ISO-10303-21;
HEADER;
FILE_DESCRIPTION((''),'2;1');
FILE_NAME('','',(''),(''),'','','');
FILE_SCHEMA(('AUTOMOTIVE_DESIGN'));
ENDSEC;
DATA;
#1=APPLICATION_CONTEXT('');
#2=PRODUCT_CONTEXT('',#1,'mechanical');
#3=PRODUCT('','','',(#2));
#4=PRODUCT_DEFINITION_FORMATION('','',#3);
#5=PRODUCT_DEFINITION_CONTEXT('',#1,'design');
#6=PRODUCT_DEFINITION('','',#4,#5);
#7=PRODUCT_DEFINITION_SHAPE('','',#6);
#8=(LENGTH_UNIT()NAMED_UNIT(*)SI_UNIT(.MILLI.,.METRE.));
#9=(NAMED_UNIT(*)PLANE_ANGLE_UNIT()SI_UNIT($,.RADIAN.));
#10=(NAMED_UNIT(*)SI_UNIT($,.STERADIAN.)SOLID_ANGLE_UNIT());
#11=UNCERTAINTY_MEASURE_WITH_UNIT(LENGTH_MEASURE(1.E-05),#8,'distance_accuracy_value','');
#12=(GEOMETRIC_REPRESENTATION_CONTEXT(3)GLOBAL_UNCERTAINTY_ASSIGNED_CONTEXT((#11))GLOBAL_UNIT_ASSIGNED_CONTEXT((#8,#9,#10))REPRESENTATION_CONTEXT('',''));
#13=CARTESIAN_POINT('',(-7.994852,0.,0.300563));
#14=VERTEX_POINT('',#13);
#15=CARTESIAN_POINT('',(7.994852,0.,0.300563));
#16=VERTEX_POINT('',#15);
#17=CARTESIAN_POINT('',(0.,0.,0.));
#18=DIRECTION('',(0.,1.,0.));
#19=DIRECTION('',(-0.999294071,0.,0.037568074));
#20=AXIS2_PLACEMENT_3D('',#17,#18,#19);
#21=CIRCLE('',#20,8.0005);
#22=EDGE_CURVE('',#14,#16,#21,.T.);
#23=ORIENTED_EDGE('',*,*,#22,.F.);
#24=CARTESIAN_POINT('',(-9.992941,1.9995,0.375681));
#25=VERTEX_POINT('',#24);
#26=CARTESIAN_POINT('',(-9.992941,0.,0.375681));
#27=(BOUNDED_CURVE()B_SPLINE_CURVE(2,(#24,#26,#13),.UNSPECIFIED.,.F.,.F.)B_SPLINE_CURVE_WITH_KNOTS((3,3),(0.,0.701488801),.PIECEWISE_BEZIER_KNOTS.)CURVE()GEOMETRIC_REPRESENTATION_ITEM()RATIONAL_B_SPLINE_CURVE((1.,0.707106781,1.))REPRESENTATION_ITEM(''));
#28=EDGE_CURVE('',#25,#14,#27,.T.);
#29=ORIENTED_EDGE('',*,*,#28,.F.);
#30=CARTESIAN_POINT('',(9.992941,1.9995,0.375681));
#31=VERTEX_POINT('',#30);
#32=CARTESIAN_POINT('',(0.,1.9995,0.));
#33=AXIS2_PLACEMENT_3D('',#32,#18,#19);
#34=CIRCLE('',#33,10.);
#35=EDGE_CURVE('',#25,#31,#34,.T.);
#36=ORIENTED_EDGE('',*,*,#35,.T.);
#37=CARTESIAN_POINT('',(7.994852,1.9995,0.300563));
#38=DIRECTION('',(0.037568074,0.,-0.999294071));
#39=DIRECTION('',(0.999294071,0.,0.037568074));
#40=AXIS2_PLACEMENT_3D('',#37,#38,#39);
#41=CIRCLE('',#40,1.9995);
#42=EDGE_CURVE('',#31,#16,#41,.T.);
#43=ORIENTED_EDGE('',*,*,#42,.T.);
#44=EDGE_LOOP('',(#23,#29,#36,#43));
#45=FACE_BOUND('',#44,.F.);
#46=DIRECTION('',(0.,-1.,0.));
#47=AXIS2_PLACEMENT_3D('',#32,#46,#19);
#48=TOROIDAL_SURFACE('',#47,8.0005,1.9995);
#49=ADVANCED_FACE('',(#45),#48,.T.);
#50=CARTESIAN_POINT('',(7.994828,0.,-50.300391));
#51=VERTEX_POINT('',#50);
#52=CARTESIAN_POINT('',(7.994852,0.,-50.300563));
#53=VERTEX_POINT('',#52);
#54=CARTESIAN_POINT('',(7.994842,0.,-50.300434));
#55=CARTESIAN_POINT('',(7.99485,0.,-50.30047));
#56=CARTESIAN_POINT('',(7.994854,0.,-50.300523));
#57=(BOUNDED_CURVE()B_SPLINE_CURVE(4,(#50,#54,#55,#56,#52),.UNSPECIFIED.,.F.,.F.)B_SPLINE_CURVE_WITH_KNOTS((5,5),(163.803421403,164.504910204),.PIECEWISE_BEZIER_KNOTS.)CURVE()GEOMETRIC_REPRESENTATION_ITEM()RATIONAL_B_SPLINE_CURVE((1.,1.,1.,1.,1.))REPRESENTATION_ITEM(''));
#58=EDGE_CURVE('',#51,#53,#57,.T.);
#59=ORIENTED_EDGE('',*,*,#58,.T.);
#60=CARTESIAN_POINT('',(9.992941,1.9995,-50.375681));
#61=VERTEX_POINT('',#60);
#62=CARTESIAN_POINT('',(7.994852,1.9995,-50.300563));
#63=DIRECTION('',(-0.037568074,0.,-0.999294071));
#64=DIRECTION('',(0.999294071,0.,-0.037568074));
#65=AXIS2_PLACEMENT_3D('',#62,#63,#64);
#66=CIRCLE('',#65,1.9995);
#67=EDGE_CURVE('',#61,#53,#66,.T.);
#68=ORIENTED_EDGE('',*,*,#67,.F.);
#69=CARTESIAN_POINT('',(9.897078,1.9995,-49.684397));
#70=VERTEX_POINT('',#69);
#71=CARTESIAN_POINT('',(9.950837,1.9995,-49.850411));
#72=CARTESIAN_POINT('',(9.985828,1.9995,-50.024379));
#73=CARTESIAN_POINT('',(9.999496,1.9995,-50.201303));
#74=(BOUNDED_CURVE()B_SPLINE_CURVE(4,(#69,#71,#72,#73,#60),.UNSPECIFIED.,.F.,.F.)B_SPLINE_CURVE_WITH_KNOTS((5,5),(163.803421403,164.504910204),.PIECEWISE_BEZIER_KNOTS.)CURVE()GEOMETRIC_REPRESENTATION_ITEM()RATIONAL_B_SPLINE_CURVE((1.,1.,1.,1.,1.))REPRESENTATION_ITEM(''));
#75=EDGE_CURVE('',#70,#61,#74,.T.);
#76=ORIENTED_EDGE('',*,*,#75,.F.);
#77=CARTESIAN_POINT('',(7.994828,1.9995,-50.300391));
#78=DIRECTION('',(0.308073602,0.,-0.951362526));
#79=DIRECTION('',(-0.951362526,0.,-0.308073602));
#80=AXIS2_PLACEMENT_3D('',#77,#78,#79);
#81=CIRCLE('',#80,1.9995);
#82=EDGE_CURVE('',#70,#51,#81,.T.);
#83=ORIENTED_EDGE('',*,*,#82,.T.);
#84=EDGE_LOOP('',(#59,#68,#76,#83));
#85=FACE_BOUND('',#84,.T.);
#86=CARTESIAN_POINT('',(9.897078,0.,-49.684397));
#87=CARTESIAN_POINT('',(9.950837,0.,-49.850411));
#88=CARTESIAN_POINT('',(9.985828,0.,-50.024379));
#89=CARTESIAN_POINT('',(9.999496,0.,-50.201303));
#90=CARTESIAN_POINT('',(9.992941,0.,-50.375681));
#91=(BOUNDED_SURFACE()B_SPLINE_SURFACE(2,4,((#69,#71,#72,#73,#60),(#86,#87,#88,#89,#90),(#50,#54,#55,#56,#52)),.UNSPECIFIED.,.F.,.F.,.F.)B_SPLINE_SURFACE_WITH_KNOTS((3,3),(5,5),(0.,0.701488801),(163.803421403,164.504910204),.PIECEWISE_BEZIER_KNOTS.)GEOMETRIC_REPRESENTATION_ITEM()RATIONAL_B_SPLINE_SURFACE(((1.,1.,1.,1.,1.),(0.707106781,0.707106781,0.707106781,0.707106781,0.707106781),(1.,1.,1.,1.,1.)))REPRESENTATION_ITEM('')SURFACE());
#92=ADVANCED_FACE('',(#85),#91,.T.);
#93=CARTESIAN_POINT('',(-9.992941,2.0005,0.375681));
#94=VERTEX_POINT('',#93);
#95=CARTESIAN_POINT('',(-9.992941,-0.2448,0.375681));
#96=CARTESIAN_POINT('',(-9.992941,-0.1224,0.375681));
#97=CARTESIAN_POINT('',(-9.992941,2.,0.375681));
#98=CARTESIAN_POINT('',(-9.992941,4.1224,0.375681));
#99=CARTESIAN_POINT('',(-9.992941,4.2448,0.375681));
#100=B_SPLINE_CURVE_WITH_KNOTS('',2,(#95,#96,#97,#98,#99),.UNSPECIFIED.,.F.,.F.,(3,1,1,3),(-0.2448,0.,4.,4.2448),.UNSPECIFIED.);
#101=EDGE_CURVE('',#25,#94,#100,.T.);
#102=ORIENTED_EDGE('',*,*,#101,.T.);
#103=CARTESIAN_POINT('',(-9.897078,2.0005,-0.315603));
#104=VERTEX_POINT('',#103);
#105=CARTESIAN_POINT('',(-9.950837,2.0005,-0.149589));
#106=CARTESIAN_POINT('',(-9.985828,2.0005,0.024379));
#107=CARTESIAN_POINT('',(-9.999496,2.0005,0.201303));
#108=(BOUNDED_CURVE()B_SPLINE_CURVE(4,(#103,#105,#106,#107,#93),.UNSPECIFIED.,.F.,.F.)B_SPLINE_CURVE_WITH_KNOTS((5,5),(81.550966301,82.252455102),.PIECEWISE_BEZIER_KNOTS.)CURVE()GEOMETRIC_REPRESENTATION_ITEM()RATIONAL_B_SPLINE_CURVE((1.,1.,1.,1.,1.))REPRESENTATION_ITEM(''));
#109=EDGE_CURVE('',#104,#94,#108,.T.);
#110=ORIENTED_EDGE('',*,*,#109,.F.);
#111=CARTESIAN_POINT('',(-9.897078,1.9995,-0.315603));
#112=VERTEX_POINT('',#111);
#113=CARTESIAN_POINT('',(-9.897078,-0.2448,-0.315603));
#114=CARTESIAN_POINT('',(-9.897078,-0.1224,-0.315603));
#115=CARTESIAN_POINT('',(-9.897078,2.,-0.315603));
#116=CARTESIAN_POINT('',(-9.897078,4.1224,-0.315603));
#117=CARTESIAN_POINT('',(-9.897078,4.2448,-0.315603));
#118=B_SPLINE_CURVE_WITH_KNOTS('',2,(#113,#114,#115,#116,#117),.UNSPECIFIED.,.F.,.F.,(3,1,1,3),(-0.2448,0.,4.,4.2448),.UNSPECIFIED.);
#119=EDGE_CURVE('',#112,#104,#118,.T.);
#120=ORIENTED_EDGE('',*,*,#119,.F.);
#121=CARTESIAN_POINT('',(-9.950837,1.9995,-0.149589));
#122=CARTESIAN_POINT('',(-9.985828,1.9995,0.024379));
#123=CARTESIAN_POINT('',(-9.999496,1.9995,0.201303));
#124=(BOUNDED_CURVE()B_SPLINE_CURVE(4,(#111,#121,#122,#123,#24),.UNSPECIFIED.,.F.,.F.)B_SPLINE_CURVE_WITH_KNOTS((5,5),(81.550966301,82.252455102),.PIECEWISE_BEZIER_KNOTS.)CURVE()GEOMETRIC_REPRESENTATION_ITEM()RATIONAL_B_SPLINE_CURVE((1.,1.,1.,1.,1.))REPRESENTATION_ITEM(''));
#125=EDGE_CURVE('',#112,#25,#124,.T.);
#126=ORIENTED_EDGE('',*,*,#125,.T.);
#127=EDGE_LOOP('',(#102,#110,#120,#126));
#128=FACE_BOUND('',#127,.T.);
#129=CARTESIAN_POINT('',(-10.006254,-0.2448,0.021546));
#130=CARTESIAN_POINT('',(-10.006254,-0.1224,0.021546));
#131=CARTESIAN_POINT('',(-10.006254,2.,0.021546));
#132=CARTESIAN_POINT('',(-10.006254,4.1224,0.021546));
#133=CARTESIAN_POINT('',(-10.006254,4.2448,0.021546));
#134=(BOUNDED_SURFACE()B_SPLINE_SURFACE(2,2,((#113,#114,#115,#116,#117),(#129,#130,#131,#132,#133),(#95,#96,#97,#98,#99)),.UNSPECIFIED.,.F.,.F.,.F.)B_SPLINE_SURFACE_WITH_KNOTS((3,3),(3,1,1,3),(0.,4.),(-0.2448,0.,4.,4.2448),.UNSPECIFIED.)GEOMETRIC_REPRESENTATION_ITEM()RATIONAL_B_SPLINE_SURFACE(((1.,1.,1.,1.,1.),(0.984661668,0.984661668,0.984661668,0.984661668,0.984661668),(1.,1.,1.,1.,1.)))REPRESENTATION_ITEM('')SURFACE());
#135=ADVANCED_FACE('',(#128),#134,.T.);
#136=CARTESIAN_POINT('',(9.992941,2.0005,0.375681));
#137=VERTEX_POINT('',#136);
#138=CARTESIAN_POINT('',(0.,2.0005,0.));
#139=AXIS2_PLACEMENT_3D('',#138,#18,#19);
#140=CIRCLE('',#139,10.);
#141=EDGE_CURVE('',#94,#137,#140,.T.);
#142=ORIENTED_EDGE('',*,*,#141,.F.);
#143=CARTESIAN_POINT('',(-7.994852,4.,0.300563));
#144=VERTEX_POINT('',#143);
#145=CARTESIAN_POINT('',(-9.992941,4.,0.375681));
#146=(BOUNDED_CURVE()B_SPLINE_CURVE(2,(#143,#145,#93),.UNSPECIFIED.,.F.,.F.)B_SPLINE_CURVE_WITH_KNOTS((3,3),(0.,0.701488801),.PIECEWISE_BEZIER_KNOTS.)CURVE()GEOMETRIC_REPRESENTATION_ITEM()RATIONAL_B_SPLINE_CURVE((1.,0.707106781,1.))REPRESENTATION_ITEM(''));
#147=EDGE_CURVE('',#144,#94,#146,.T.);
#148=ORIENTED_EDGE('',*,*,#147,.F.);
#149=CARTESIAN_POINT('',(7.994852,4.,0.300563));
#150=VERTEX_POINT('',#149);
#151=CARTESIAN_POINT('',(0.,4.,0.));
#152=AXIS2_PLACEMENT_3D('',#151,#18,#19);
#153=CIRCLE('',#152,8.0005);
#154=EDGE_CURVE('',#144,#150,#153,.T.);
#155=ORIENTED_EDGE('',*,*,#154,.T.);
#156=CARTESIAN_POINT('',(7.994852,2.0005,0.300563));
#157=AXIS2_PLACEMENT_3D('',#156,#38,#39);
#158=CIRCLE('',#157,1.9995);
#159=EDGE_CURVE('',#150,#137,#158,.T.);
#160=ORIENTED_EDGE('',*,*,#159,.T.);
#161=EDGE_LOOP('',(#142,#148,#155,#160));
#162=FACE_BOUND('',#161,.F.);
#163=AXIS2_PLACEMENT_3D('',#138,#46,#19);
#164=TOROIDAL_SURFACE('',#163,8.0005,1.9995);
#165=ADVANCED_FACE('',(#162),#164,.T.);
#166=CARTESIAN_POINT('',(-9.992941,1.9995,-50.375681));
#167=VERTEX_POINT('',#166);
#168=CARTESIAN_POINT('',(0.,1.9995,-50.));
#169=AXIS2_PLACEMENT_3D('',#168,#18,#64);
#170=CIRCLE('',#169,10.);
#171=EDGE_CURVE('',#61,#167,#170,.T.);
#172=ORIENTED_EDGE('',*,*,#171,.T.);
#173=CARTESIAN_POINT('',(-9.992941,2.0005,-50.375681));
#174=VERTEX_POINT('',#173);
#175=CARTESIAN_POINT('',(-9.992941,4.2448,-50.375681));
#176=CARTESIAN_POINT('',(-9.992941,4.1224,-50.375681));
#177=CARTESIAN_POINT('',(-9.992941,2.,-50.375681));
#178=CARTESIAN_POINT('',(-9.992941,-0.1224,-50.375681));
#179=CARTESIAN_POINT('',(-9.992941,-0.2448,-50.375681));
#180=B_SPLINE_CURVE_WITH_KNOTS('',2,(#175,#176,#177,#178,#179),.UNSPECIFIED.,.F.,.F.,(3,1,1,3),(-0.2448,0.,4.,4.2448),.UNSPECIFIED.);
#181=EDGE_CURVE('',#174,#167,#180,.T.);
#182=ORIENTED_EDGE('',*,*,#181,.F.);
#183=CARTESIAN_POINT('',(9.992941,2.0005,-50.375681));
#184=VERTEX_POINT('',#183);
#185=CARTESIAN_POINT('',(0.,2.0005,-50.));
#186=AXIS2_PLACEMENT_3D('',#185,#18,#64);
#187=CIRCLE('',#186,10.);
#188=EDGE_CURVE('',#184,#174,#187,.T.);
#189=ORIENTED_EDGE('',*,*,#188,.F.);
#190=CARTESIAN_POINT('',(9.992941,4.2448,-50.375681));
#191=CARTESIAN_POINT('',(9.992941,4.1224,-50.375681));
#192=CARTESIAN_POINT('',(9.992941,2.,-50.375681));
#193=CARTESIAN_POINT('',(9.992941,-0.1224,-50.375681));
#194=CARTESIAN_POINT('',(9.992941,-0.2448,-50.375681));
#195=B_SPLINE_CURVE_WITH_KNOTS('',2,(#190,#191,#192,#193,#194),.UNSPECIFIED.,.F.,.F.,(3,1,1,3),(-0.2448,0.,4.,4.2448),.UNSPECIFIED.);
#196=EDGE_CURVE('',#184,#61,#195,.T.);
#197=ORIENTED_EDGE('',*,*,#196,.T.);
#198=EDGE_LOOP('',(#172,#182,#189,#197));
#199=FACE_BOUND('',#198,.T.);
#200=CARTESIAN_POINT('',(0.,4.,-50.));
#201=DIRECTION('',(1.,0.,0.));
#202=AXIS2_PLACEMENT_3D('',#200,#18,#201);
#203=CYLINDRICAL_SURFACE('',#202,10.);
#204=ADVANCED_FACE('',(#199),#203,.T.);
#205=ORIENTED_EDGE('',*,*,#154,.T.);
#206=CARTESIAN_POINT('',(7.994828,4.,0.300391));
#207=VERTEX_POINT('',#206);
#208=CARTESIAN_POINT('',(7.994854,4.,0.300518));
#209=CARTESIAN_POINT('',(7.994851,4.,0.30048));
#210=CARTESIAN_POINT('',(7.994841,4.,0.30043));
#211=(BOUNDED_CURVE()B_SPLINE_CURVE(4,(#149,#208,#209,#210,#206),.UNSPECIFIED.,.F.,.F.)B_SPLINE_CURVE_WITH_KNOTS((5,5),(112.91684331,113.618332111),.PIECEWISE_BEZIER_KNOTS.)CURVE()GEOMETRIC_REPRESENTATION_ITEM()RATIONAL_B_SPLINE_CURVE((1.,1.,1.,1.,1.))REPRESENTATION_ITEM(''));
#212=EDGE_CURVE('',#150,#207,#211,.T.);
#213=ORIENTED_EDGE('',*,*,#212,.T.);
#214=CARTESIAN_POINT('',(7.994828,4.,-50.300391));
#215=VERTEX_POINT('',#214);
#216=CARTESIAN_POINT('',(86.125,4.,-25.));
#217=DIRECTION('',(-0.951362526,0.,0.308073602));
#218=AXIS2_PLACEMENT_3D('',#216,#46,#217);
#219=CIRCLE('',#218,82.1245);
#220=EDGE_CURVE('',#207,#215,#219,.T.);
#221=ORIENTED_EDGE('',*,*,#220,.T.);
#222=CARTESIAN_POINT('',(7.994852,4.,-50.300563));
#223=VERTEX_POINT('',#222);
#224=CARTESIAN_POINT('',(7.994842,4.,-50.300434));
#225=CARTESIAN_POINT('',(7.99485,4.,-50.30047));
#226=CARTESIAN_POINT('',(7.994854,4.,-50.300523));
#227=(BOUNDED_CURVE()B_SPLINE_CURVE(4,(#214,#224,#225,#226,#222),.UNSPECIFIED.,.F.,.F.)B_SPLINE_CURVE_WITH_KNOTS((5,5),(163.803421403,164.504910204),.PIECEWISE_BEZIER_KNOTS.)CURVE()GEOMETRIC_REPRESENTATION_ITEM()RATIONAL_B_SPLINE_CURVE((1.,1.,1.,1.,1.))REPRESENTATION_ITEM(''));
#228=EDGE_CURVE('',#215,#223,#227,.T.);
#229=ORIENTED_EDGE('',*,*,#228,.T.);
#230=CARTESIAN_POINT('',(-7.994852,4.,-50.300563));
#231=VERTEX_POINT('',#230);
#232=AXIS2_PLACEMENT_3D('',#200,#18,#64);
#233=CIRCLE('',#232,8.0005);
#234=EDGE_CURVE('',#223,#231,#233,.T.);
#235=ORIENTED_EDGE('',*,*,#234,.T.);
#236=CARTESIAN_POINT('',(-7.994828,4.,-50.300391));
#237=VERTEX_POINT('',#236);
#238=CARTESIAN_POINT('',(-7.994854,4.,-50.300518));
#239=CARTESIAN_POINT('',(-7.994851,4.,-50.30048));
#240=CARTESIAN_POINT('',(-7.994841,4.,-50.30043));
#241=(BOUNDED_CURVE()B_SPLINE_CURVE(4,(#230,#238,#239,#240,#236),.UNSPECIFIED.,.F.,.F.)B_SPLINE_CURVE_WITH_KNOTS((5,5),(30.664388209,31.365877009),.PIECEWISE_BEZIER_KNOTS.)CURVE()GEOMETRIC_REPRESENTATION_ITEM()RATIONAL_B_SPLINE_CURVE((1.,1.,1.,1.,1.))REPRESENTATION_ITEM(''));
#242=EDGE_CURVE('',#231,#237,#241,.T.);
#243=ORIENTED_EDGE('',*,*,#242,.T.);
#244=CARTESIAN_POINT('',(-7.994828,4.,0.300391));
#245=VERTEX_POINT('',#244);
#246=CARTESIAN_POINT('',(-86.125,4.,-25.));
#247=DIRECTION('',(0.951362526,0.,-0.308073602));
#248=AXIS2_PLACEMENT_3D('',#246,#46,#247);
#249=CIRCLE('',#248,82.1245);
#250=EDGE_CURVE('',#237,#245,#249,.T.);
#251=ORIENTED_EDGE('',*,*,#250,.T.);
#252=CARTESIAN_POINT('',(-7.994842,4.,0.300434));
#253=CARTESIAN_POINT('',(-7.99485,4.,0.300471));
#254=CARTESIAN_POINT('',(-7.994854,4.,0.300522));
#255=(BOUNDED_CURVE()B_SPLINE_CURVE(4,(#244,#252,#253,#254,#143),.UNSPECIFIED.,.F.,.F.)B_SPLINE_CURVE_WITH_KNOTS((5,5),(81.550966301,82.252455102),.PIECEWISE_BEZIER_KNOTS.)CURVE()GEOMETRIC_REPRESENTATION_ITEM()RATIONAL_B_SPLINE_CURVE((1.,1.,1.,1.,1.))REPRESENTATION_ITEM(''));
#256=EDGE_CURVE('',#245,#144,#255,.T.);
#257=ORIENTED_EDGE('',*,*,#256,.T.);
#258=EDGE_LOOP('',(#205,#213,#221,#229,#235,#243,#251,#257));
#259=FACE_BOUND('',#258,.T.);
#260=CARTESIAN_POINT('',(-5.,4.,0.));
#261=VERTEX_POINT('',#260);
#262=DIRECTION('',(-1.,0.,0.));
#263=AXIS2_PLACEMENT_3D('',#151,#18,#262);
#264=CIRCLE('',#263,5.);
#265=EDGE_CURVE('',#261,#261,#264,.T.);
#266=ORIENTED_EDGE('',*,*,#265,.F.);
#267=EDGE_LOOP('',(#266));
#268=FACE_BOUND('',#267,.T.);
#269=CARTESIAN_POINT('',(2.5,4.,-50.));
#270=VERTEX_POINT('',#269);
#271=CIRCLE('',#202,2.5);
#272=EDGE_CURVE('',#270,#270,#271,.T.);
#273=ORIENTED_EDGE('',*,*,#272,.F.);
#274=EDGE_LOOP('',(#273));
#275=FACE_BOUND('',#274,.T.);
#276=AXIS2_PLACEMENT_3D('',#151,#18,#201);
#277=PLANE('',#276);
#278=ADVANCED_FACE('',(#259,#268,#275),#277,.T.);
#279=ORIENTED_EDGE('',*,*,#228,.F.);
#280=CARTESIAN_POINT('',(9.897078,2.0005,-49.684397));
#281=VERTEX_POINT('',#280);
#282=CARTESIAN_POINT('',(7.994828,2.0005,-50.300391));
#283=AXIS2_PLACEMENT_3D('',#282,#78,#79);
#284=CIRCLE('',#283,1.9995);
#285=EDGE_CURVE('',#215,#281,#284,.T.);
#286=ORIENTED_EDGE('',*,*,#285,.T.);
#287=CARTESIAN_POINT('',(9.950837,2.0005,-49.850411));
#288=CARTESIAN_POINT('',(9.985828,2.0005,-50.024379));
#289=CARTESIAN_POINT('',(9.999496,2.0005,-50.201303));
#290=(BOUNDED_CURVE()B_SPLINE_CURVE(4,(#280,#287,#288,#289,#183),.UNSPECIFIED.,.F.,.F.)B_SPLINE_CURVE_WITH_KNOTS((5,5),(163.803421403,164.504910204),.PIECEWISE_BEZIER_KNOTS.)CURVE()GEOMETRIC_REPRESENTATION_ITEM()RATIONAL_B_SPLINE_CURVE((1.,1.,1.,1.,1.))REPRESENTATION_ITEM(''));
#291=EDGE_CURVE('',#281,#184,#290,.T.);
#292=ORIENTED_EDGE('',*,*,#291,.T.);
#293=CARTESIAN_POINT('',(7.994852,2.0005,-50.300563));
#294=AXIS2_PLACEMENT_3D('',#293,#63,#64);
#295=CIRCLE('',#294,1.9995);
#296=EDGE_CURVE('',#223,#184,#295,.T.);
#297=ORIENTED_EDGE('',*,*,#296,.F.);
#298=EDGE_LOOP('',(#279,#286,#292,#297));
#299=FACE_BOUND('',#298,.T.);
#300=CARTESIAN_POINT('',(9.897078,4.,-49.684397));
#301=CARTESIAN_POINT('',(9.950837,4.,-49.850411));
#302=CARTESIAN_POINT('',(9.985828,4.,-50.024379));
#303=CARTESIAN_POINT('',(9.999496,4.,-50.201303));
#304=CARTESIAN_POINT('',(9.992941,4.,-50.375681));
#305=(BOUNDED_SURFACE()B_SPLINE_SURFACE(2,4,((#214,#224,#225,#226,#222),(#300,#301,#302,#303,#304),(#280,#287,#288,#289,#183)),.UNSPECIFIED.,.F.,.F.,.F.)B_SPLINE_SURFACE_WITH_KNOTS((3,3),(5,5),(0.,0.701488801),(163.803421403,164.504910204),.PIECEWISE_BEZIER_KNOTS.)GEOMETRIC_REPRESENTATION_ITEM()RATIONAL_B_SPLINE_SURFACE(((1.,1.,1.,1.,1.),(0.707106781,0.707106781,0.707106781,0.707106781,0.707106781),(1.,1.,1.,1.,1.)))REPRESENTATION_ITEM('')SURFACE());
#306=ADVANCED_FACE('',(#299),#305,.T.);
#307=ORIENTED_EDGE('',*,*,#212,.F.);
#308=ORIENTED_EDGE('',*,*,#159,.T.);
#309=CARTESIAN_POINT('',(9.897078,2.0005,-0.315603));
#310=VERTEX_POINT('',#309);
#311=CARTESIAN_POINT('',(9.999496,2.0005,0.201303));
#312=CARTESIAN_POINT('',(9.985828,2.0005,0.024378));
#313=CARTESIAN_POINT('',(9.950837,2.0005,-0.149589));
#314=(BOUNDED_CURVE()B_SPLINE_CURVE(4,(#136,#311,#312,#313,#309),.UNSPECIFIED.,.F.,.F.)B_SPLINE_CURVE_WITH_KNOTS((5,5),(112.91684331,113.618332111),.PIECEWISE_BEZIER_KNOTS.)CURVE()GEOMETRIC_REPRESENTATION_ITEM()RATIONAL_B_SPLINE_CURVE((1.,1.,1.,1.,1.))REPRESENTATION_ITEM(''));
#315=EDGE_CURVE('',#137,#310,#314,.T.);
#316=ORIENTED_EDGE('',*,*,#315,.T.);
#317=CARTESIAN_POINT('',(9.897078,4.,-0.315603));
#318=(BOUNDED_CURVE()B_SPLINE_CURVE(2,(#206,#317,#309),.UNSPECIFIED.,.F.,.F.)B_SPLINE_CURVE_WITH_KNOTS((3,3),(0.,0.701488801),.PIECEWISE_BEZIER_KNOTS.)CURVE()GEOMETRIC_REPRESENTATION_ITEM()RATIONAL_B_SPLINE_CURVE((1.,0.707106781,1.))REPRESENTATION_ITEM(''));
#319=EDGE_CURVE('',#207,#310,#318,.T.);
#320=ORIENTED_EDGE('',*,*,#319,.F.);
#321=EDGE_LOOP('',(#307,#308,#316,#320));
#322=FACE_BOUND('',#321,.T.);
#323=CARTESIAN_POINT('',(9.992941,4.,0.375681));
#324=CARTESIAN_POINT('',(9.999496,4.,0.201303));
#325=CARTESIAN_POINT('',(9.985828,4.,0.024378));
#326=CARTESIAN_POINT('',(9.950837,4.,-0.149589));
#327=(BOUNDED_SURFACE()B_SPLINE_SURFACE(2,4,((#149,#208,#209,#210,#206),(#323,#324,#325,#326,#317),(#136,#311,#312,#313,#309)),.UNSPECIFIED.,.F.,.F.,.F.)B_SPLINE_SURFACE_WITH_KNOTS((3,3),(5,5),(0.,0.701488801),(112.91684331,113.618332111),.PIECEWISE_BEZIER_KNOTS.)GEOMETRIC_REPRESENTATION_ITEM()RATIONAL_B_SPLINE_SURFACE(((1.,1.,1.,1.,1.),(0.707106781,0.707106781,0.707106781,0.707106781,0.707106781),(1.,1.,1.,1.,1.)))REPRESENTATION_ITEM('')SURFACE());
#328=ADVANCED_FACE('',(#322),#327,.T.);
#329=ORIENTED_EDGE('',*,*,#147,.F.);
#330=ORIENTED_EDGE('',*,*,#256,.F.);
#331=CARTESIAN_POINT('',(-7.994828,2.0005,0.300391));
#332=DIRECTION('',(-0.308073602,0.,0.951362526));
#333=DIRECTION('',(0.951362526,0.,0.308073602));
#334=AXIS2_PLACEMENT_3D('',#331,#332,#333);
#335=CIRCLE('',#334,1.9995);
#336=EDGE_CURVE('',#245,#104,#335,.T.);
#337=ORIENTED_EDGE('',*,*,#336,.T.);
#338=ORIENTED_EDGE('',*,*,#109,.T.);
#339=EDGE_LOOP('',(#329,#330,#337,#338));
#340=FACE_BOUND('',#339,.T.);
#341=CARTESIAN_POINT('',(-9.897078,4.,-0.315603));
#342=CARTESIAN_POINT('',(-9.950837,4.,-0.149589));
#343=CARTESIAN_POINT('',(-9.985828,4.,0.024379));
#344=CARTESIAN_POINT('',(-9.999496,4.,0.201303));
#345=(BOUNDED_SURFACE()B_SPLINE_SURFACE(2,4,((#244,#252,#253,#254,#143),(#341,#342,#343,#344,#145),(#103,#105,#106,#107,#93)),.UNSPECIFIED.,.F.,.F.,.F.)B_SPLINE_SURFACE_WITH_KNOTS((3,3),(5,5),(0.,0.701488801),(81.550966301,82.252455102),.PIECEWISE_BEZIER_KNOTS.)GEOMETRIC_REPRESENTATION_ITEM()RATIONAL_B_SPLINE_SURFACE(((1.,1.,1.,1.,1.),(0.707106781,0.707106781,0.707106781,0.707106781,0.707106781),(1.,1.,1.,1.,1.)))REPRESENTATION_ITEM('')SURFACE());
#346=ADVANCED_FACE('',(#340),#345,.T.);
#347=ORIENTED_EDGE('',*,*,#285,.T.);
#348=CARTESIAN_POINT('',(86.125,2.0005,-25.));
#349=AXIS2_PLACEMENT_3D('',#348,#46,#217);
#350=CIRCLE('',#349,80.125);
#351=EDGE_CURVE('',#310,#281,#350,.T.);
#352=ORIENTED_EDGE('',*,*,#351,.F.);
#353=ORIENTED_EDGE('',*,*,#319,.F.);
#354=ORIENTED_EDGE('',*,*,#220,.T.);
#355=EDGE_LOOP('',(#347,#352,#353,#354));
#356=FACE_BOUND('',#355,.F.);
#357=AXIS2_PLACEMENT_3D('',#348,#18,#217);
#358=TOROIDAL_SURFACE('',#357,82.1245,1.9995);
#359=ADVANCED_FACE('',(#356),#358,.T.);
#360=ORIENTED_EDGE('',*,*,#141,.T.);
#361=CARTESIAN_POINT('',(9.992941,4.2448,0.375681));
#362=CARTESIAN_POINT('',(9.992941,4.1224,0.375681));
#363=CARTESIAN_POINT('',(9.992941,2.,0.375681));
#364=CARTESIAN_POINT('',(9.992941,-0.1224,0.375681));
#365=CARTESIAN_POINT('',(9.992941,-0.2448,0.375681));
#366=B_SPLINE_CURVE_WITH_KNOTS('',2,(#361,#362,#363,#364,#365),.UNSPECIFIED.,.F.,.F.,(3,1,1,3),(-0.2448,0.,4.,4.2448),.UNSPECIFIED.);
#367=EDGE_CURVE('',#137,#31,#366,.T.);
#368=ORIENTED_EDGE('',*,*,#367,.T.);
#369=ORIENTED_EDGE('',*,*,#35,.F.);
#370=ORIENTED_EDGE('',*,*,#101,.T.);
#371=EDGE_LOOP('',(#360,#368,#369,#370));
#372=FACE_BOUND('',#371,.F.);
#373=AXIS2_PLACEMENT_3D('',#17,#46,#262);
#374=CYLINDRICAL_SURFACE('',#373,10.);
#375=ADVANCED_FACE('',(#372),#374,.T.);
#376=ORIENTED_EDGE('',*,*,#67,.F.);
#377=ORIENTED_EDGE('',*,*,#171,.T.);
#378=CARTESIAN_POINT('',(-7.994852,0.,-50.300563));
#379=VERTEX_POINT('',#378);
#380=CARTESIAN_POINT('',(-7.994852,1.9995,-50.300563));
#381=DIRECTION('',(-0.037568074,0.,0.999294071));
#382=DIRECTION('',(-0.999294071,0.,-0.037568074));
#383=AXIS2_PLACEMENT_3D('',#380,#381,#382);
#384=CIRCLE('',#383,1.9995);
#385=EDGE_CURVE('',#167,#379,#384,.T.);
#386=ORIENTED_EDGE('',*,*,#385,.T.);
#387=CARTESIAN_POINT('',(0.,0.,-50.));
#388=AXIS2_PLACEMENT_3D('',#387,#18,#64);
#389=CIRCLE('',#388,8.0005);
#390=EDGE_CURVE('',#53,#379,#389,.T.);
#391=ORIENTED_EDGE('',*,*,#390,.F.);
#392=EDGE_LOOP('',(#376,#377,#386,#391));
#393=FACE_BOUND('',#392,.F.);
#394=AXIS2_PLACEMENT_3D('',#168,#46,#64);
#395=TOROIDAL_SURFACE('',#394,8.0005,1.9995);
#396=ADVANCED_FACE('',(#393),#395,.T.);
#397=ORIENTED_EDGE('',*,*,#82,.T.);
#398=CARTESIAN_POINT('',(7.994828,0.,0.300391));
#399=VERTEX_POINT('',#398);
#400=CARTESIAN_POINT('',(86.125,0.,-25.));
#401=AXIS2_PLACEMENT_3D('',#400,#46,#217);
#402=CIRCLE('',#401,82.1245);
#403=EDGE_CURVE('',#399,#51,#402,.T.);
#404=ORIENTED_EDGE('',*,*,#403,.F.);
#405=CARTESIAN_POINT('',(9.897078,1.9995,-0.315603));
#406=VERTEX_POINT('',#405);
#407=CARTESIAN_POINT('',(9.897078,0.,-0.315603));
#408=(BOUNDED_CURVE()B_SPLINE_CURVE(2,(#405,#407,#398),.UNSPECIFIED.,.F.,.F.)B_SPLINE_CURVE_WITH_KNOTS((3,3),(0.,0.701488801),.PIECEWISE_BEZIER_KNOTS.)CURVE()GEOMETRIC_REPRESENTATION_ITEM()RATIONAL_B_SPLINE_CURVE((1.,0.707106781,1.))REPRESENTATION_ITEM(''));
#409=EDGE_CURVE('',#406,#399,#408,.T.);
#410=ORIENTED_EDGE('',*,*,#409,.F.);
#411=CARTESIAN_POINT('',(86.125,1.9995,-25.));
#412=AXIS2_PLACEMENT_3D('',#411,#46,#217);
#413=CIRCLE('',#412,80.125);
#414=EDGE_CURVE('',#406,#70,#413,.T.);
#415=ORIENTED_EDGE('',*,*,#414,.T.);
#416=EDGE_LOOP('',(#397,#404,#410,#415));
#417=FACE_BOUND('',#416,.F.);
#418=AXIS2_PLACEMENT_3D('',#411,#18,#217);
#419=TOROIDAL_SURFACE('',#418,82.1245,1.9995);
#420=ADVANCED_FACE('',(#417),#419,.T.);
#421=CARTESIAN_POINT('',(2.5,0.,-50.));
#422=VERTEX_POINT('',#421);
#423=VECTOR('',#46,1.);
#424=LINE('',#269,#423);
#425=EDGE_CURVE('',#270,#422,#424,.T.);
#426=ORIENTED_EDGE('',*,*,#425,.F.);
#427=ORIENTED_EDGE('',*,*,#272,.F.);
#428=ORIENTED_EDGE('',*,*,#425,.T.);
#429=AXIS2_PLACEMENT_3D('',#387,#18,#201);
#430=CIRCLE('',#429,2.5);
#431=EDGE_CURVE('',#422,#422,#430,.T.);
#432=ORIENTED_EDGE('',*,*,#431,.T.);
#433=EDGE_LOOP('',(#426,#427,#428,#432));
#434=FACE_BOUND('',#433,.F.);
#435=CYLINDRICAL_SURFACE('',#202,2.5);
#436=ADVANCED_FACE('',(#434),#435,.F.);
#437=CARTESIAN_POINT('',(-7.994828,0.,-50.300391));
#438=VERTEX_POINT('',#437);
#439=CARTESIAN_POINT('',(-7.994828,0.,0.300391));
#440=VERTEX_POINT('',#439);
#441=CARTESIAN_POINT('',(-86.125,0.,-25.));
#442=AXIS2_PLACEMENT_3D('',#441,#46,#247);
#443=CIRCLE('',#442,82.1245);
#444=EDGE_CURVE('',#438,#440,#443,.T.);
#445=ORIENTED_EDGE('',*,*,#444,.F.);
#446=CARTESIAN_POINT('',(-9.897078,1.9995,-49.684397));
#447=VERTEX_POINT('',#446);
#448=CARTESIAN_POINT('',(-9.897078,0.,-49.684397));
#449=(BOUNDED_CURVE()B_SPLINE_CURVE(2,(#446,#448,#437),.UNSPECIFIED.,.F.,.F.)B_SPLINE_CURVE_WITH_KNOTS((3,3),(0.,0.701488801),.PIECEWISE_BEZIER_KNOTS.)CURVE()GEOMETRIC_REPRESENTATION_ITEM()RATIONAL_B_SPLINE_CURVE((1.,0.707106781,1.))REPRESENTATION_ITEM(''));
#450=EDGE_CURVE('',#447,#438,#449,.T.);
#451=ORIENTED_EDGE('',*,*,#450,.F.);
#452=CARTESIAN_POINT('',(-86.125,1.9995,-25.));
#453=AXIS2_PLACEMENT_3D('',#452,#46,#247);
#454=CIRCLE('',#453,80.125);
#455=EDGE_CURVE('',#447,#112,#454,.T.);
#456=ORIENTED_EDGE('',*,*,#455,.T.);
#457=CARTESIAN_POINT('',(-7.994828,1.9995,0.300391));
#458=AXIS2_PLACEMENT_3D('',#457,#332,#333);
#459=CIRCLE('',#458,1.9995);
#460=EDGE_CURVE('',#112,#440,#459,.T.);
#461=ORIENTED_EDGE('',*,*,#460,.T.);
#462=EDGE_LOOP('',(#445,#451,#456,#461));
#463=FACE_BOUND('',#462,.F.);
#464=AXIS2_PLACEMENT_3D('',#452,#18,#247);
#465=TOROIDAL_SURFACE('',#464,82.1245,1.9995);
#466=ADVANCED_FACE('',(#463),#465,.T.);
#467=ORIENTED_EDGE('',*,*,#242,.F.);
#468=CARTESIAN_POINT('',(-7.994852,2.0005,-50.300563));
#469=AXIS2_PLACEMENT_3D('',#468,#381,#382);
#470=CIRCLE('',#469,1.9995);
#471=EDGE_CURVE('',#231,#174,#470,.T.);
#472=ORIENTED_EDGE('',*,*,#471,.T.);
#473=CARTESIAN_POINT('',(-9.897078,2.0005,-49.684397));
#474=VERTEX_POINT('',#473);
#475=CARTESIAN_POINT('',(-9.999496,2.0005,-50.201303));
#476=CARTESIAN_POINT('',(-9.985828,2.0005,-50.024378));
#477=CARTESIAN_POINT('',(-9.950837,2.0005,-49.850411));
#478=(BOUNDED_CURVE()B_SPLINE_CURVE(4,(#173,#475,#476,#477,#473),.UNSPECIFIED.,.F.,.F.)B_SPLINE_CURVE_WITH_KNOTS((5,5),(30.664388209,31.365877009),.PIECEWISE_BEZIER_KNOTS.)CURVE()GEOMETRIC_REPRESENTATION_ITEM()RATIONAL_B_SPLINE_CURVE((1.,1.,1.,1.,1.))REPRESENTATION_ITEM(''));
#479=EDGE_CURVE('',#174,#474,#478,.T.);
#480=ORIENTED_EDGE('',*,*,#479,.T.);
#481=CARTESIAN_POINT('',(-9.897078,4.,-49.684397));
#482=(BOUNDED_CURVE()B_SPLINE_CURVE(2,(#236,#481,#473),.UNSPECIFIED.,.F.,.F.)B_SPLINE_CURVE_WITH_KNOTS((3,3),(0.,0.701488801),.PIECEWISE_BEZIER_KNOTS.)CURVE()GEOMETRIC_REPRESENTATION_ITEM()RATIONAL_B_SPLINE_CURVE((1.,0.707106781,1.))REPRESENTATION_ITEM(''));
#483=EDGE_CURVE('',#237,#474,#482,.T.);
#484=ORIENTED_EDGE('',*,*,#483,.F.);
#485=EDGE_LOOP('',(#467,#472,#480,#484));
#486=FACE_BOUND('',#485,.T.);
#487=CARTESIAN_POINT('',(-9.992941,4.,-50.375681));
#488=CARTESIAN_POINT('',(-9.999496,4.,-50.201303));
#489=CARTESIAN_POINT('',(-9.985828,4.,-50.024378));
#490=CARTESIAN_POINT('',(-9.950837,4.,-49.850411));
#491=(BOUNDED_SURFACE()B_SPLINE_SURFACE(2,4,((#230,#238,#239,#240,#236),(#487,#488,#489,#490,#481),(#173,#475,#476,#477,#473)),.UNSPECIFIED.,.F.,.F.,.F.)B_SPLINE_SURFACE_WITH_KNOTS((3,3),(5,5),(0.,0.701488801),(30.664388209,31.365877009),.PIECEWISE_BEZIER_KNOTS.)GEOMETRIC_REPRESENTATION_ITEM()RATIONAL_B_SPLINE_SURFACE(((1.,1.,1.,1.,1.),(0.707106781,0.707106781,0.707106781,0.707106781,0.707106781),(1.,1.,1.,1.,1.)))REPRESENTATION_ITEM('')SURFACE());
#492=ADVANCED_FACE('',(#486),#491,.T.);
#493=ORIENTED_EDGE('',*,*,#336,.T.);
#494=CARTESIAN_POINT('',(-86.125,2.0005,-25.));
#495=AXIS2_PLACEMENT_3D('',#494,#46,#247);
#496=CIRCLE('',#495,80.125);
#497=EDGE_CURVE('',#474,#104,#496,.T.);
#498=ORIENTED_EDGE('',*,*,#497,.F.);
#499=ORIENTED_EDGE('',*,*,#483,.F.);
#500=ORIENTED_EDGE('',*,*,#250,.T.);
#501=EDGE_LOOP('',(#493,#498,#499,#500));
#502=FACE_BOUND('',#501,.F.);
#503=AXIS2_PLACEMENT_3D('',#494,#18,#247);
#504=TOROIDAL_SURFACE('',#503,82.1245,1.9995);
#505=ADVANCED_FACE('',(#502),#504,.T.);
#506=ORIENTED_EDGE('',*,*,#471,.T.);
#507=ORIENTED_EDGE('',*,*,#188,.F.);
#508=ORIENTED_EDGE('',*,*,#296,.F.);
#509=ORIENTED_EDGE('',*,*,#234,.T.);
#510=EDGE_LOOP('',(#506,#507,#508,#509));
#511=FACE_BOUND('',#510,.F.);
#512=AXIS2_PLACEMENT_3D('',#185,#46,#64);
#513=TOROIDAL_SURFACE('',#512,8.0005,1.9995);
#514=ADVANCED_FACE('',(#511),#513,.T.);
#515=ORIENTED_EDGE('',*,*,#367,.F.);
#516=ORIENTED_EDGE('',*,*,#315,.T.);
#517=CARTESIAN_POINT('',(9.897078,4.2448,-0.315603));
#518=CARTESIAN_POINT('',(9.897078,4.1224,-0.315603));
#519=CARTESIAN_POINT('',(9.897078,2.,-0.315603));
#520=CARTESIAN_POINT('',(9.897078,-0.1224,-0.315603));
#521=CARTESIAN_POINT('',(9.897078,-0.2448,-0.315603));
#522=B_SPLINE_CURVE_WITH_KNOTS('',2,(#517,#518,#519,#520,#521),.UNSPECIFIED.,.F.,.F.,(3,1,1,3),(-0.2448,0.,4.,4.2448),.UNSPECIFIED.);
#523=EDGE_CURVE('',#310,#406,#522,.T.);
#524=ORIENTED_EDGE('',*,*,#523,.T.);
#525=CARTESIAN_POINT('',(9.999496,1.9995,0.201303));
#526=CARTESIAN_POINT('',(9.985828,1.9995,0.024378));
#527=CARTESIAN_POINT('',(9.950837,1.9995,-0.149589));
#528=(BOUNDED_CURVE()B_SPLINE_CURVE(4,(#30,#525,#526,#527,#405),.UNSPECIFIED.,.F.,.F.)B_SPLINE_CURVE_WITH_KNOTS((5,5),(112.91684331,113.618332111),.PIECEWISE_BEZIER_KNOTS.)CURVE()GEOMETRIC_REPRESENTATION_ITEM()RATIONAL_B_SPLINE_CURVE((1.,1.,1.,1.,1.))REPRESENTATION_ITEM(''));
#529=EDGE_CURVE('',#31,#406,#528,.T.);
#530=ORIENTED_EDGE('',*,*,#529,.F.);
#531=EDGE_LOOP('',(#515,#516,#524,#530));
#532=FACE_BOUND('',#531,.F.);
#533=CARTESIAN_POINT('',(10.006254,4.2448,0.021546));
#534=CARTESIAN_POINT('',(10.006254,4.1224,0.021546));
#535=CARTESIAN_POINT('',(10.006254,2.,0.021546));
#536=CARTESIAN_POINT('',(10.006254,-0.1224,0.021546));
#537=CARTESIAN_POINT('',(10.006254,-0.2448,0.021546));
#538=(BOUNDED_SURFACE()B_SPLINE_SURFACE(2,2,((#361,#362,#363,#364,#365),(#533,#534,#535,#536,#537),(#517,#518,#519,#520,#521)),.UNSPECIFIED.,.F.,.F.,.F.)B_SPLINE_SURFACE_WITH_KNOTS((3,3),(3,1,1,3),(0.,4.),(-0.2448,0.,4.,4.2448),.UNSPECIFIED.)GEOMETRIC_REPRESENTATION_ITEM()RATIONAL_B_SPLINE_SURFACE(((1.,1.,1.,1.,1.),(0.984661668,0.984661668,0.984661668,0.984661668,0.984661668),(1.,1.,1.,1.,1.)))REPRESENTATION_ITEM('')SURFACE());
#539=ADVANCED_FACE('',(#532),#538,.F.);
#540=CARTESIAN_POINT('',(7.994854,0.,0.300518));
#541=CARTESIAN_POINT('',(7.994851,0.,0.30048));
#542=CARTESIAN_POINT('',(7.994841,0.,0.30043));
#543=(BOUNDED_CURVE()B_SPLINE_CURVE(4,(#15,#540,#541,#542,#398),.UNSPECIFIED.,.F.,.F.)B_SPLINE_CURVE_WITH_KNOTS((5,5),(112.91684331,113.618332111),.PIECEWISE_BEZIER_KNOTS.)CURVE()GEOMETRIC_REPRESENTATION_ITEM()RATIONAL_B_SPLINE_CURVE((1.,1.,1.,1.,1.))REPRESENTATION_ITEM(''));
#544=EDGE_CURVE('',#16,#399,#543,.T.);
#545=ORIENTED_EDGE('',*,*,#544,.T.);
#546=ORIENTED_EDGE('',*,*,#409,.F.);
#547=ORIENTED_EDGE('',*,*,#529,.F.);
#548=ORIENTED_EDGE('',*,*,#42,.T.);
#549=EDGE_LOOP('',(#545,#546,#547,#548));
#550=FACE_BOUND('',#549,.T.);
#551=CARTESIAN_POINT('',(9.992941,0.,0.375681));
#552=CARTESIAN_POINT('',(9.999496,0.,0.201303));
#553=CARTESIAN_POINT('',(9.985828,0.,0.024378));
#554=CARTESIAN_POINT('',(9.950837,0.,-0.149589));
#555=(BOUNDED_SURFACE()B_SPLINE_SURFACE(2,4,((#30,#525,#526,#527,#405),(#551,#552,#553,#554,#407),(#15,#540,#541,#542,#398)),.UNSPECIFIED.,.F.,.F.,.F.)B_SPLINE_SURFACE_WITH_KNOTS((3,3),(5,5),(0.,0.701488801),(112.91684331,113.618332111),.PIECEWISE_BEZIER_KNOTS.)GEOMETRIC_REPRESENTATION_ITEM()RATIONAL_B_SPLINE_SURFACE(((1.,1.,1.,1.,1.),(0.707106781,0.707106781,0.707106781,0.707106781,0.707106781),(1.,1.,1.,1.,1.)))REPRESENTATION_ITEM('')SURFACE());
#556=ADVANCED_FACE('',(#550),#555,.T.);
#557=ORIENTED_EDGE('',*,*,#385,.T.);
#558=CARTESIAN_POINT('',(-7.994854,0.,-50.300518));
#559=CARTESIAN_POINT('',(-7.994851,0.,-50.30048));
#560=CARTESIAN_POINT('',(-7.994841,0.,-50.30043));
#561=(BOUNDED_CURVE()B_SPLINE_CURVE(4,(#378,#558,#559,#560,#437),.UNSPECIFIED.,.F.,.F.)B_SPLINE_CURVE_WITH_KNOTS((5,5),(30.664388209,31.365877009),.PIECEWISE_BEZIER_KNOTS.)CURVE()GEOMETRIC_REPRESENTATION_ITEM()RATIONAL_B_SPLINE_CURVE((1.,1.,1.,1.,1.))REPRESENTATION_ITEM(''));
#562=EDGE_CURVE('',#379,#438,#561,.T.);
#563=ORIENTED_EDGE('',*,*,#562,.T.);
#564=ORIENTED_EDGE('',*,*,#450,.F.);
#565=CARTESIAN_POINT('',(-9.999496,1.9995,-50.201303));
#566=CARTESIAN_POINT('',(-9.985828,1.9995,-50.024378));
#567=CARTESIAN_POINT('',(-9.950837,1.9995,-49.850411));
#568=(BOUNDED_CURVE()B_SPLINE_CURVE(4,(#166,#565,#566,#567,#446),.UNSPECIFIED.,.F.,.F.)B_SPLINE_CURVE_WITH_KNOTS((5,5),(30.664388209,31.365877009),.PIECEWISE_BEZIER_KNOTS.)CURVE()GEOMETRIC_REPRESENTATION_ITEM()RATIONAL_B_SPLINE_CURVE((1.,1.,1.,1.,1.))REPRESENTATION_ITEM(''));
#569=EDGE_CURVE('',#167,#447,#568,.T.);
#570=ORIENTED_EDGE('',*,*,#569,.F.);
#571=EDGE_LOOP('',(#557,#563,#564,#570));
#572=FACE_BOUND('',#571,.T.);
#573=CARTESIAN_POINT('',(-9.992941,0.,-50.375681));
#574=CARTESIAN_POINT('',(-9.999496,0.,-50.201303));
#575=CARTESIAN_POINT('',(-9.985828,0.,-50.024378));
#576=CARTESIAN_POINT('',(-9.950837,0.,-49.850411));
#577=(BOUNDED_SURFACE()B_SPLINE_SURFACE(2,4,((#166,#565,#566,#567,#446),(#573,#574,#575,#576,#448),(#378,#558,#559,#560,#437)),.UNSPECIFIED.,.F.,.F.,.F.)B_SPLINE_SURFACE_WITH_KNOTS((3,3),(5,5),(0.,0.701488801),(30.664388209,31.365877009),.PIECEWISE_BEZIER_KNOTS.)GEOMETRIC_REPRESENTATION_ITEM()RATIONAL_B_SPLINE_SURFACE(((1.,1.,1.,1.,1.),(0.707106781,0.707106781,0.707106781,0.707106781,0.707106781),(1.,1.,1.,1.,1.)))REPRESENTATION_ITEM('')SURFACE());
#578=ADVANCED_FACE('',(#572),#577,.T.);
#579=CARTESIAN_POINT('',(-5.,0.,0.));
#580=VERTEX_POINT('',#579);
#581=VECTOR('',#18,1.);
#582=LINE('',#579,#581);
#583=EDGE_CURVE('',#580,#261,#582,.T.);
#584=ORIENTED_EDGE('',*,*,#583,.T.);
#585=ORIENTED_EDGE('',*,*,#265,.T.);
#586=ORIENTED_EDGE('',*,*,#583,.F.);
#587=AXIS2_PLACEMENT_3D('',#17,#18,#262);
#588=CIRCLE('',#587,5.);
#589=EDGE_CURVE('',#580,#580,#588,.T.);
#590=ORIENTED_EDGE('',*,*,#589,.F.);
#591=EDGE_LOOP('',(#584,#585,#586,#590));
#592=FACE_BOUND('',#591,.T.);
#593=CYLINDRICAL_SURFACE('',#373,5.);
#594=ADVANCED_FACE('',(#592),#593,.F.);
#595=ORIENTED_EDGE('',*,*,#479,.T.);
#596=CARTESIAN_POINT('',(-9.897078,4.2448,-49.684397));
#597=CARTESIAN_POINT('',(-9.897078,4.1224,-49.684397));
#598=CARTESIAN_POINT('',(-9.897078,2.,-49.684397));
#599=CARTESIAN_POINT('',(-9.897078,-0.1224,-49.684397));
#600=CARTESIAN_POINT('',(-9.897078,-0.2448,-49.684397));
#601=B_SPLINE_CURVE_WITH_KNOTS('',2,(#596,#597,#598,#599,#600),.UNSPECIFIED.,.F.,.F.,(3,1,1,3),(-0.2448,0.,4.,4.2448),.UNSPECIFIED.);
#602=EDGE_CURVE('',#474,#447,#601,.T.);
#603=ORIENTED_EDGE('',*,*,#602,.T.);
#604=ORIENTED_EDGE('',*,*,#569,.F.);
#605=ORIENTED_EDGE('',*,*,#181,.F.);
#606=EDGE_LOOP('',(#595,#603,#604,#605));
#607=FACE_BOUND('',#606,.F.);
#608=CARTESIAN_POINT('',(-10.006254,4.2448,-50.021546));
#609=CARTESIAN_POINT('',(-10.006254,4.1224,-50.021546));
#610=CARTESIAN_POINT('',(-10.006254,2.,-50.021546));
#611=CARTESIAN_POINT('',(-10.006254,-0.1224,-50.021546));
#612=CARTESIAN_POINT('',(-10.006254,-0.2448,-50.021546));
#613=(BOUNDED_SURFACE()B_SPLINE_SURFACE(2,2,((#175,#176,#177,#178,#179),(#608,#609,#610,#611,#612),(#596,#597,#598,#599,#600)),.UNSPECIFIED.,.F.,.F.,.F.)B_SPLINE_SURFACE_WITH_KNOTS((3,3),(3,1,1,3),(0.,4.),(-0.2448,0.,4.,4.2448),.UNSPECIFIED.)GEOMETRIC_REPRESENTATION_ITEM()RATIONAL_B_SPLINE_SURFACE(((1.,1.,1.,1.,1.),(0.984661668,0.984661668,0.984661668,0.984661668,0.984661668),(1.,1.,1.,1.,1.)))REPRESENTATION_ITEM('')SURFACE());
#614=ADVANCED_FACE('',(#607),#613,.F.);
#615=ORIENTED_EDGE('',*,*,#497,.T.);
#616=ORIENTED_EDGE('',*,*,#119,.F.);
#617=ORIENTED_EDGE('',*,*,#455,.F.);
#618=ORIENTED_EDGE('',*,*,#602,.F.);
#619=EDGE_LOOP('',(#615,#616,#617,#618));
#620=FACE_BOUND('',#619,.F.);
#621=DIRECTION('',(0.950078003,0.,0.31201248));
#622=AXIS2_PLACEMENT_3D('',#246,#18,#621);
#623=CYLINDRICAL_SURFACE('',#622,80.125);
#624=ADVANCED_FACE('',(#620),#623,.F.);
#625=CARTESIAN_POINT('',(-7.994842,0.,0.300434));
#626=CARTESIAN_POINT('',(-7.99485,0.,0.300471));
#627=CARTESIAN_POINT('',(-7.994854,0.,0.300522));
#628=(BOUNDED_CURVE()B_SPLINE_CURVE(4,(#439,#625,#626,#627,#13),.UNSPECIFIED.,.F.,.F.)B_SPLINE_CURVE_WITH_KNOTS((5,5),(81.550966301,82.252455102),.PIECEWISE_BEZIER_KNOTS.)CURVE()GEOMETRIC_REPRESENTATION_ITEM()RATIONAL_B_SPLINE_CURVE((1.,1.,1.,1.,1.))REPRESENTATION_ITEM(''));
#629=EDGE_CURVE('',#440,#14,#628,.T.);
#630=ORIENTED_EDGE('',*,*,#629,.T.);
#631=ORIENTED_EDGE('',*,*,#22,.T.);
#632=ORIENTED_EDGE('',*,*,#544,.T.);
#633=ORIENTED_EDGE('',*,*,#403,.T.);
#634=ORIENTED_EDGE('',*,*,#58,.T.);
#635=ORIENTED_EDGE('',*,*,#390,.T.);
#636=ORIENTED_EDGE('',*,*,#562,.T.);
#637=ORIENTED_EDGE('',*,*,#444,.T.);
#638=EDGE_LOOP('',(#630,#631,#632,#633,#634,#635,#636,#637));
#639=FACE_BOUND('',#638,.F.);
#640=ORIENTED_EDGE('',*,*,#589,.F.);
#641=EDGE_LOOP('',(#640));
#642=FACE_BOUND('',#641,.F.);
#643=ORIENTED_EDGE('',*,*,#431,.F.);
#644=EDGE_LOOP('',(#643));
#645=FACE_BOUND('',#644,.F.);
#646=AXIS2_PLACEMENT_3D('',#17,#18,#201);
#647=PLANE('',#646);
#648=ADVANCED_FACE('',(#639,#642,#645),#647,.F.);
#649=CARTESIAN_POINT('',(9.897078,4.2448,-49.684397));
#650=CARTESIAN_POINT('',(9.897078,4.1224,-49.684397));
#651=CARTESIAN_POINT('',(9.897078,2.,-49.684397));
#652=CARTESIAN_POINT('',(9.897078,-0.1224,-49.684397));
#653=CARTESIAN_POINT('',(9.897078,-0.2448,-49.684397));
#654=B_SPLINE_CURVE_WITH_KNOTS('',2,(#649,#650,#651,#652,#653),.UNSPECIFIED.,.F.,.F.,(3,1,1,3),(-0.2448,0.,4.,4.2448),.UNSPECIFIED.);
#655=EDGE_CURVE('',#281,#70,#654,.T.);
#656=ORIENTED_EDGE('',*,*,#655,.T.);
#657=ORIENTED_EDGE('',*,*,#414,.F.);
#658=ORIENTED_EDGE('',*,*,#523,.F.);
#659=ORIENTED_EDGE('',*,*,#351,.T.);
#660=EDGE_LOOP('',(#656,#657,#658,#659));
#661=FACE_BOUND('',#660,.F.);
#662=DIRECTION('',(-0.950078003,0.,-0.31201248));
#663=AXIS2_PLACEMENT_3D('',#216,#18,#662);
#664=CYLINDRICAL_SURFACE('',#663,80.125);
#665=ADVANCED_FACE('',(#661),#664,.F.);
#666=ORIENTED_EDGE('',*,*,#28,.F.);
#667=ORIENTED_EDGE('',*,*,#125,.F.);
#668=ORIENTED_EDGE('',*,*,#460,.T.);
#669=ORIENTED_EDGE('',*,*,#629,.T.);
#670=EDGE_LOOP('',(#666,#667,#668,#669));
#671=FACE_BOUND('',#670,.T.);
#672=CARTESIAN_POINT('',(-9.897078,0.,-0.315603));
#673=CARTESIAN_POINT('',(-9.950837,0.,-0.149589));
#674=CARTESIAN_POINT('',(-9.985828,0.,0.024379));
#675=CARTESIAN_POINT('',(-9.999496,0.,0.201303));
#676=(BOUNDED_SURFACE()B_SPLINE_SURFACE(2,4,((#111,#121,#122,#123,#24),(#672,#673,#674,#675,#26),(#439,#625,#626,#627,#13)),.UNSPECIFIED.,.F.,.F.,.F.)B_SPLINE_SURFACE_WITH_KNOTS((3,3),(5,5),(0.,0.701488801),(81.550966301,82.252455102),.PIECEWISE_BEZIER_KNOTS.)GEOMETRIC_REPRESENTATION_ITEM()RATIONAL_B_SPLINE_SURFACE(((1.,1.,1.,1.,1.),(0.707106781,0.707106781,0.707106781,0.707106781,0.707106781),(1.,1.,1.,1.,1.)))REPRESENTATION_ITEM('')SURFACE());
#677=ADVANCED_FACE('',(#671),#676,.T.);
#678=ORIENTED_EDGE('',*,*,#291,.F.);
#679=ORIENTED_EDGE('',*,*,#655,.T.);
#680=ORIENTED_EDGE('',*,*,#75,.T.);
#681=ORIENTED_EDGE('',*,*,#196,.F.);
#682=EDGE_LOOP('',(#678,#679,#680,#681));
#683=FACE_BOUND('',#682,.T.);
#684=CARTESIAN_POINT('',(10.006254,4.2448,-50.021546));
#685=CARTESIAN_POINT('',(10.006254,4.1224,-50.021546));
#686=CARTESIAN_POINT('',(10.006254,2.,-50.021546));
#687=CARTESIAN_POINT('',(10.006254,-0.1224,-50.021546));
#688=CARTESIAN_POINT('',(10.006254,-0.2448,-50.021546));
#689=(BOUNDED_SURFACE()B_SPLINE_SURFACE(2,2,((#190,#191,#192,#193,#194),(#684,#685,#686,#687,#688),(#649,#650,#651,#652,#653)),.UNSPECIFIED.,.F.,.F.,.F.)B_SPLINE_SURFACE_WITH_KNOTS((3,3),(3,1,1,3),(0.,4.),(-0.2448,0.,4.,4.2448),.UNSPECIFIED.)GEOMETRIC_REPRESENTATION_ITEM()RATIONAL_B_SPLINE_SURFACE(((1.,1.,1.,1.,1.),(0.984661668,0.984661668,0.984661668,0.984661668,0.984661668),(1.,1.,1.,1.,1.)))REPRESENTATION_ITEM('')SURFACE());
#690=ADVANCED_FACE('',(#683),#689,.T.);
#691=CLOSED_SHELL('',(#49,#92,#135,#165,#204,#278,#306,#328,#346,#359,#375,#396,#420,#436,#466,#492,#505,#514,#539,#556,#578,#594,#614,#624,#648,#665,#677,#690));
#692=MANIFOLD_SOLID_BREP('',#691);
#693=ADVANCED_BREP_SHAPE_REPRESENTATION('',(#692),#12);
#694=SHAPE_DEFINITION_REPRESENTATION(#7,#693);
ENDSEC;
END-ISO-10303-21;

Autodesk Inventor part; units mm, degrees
ref_plane "YZ Plane" through (0, 0, 0) normal (1, 0, 0) x (0, 1, 0)
ref_plane "XZ Plane" through (0, 0, 0) normal (0, 1, 0) x (-1, 0, 0)
ref_plane "XY Plane" through (0, 0, 0) normal (0, 0, 1) x (1, 0, 0)
sketch "Sketch1" plane through (0, 0, 0) normal (0, 1, 0) x (-1, 0, 0)
  circle A0 centre (0, 0) radius 10
  circle A1 centre (0, 0) radius 5
  dimension "d0" = 20
extrude "Extrusion1" add sketch "Sketch1" along normal blind 4
sketch "Sketch2" plane through (0, 4, 0) normal (0, 1, 0) x (1, 0, 0)
  circle A0 centre (0, 0) radius 10 projected
  line L0 (-10, 0) -> (10, 0)
  line L1 (10, 0) -> (10, 50)
  line L2 (10, 50) -> (-10, 50)
  line L3 (-10, 50) -> (-10, 0)
  dimension "d3" = 50
extrude "Extrusion2" add sketch "Sketch2" against normal blind 4 contours A0 L3 L2 L1
sketch "Sketch3" plane through (0, 4, 0) normal (0, 1, 0) x (1, 0, 0)
  line L0 (-10, 50) -> (10, 50) projected
  circle A0 centre (0, 50) radius 10
  point P0 (0, 0)
  point P1 (-10, 50)
  dimension "d19" = 20
extrude "Extrusion3" add sketch "Sketch3" against normal blind 4 contours A0 L0 picked at (2.78, 54.5572)
sketch "Sketch5" plane through (0, 4, 0) normal (0, 1, 0) x (1, 0, 0)
  arc A0 (-10, 0) -> (10, 0) centre (0, 0) ccw projected
  line L0 (-10, 0) -> (-10, 50) projected
  arc A1 (-10, 0) -> (-10, 50) centre (-86.125, 25) ccw
  line L1 (10, 50) -> (10, 0) projected
  arc A2 (10, 50) -> (10, 0) centre (86.125, 25) ccw
extrude "Extrusion4" cut sketch "Sketch5" against normal blind 4
fillet "Fillet1" radius 2 1 edges at (10, 2, -50)
fillet "Fillet2" radius 2 1 edges at (-10, 2, -50)
fillet "Fillet3" radius 2 1 edges at (-10, 2, 0)
fillet "Fillet4" radius 2 1 edges at (10, 2, 0)
sketch "Sketch6" plane through (0, 4, 0) normal (0, 1, 0) x (1, 0, 0)
  arc A0 (9.9929, 50.3757) -> (-9.9929, 50.3757) centre (0, 50) ccw projected
  circle A1 centre (0, 50) radius 2.5
  point P0 (0, 0)
  dimension "d14" = 5
extrude "Extrusion5" cut sketch "Sketch6" against normal blind 4
fillet "Fillet5" radius 2 5 edges at (0, 4, -60) (-9.9754, 4, 0.0258) (0, 4, 10) (9.9754, 4, 0.0258) (6, 4, -25)
fillet "Fillet6" radius 2 5 edges at (0, 0, -60) (6, 0, -25) (9.9754, 0, 0.0258) (0, 0, 10) (-9.9754, 0, 0.0258)
properties part number "Arm"
